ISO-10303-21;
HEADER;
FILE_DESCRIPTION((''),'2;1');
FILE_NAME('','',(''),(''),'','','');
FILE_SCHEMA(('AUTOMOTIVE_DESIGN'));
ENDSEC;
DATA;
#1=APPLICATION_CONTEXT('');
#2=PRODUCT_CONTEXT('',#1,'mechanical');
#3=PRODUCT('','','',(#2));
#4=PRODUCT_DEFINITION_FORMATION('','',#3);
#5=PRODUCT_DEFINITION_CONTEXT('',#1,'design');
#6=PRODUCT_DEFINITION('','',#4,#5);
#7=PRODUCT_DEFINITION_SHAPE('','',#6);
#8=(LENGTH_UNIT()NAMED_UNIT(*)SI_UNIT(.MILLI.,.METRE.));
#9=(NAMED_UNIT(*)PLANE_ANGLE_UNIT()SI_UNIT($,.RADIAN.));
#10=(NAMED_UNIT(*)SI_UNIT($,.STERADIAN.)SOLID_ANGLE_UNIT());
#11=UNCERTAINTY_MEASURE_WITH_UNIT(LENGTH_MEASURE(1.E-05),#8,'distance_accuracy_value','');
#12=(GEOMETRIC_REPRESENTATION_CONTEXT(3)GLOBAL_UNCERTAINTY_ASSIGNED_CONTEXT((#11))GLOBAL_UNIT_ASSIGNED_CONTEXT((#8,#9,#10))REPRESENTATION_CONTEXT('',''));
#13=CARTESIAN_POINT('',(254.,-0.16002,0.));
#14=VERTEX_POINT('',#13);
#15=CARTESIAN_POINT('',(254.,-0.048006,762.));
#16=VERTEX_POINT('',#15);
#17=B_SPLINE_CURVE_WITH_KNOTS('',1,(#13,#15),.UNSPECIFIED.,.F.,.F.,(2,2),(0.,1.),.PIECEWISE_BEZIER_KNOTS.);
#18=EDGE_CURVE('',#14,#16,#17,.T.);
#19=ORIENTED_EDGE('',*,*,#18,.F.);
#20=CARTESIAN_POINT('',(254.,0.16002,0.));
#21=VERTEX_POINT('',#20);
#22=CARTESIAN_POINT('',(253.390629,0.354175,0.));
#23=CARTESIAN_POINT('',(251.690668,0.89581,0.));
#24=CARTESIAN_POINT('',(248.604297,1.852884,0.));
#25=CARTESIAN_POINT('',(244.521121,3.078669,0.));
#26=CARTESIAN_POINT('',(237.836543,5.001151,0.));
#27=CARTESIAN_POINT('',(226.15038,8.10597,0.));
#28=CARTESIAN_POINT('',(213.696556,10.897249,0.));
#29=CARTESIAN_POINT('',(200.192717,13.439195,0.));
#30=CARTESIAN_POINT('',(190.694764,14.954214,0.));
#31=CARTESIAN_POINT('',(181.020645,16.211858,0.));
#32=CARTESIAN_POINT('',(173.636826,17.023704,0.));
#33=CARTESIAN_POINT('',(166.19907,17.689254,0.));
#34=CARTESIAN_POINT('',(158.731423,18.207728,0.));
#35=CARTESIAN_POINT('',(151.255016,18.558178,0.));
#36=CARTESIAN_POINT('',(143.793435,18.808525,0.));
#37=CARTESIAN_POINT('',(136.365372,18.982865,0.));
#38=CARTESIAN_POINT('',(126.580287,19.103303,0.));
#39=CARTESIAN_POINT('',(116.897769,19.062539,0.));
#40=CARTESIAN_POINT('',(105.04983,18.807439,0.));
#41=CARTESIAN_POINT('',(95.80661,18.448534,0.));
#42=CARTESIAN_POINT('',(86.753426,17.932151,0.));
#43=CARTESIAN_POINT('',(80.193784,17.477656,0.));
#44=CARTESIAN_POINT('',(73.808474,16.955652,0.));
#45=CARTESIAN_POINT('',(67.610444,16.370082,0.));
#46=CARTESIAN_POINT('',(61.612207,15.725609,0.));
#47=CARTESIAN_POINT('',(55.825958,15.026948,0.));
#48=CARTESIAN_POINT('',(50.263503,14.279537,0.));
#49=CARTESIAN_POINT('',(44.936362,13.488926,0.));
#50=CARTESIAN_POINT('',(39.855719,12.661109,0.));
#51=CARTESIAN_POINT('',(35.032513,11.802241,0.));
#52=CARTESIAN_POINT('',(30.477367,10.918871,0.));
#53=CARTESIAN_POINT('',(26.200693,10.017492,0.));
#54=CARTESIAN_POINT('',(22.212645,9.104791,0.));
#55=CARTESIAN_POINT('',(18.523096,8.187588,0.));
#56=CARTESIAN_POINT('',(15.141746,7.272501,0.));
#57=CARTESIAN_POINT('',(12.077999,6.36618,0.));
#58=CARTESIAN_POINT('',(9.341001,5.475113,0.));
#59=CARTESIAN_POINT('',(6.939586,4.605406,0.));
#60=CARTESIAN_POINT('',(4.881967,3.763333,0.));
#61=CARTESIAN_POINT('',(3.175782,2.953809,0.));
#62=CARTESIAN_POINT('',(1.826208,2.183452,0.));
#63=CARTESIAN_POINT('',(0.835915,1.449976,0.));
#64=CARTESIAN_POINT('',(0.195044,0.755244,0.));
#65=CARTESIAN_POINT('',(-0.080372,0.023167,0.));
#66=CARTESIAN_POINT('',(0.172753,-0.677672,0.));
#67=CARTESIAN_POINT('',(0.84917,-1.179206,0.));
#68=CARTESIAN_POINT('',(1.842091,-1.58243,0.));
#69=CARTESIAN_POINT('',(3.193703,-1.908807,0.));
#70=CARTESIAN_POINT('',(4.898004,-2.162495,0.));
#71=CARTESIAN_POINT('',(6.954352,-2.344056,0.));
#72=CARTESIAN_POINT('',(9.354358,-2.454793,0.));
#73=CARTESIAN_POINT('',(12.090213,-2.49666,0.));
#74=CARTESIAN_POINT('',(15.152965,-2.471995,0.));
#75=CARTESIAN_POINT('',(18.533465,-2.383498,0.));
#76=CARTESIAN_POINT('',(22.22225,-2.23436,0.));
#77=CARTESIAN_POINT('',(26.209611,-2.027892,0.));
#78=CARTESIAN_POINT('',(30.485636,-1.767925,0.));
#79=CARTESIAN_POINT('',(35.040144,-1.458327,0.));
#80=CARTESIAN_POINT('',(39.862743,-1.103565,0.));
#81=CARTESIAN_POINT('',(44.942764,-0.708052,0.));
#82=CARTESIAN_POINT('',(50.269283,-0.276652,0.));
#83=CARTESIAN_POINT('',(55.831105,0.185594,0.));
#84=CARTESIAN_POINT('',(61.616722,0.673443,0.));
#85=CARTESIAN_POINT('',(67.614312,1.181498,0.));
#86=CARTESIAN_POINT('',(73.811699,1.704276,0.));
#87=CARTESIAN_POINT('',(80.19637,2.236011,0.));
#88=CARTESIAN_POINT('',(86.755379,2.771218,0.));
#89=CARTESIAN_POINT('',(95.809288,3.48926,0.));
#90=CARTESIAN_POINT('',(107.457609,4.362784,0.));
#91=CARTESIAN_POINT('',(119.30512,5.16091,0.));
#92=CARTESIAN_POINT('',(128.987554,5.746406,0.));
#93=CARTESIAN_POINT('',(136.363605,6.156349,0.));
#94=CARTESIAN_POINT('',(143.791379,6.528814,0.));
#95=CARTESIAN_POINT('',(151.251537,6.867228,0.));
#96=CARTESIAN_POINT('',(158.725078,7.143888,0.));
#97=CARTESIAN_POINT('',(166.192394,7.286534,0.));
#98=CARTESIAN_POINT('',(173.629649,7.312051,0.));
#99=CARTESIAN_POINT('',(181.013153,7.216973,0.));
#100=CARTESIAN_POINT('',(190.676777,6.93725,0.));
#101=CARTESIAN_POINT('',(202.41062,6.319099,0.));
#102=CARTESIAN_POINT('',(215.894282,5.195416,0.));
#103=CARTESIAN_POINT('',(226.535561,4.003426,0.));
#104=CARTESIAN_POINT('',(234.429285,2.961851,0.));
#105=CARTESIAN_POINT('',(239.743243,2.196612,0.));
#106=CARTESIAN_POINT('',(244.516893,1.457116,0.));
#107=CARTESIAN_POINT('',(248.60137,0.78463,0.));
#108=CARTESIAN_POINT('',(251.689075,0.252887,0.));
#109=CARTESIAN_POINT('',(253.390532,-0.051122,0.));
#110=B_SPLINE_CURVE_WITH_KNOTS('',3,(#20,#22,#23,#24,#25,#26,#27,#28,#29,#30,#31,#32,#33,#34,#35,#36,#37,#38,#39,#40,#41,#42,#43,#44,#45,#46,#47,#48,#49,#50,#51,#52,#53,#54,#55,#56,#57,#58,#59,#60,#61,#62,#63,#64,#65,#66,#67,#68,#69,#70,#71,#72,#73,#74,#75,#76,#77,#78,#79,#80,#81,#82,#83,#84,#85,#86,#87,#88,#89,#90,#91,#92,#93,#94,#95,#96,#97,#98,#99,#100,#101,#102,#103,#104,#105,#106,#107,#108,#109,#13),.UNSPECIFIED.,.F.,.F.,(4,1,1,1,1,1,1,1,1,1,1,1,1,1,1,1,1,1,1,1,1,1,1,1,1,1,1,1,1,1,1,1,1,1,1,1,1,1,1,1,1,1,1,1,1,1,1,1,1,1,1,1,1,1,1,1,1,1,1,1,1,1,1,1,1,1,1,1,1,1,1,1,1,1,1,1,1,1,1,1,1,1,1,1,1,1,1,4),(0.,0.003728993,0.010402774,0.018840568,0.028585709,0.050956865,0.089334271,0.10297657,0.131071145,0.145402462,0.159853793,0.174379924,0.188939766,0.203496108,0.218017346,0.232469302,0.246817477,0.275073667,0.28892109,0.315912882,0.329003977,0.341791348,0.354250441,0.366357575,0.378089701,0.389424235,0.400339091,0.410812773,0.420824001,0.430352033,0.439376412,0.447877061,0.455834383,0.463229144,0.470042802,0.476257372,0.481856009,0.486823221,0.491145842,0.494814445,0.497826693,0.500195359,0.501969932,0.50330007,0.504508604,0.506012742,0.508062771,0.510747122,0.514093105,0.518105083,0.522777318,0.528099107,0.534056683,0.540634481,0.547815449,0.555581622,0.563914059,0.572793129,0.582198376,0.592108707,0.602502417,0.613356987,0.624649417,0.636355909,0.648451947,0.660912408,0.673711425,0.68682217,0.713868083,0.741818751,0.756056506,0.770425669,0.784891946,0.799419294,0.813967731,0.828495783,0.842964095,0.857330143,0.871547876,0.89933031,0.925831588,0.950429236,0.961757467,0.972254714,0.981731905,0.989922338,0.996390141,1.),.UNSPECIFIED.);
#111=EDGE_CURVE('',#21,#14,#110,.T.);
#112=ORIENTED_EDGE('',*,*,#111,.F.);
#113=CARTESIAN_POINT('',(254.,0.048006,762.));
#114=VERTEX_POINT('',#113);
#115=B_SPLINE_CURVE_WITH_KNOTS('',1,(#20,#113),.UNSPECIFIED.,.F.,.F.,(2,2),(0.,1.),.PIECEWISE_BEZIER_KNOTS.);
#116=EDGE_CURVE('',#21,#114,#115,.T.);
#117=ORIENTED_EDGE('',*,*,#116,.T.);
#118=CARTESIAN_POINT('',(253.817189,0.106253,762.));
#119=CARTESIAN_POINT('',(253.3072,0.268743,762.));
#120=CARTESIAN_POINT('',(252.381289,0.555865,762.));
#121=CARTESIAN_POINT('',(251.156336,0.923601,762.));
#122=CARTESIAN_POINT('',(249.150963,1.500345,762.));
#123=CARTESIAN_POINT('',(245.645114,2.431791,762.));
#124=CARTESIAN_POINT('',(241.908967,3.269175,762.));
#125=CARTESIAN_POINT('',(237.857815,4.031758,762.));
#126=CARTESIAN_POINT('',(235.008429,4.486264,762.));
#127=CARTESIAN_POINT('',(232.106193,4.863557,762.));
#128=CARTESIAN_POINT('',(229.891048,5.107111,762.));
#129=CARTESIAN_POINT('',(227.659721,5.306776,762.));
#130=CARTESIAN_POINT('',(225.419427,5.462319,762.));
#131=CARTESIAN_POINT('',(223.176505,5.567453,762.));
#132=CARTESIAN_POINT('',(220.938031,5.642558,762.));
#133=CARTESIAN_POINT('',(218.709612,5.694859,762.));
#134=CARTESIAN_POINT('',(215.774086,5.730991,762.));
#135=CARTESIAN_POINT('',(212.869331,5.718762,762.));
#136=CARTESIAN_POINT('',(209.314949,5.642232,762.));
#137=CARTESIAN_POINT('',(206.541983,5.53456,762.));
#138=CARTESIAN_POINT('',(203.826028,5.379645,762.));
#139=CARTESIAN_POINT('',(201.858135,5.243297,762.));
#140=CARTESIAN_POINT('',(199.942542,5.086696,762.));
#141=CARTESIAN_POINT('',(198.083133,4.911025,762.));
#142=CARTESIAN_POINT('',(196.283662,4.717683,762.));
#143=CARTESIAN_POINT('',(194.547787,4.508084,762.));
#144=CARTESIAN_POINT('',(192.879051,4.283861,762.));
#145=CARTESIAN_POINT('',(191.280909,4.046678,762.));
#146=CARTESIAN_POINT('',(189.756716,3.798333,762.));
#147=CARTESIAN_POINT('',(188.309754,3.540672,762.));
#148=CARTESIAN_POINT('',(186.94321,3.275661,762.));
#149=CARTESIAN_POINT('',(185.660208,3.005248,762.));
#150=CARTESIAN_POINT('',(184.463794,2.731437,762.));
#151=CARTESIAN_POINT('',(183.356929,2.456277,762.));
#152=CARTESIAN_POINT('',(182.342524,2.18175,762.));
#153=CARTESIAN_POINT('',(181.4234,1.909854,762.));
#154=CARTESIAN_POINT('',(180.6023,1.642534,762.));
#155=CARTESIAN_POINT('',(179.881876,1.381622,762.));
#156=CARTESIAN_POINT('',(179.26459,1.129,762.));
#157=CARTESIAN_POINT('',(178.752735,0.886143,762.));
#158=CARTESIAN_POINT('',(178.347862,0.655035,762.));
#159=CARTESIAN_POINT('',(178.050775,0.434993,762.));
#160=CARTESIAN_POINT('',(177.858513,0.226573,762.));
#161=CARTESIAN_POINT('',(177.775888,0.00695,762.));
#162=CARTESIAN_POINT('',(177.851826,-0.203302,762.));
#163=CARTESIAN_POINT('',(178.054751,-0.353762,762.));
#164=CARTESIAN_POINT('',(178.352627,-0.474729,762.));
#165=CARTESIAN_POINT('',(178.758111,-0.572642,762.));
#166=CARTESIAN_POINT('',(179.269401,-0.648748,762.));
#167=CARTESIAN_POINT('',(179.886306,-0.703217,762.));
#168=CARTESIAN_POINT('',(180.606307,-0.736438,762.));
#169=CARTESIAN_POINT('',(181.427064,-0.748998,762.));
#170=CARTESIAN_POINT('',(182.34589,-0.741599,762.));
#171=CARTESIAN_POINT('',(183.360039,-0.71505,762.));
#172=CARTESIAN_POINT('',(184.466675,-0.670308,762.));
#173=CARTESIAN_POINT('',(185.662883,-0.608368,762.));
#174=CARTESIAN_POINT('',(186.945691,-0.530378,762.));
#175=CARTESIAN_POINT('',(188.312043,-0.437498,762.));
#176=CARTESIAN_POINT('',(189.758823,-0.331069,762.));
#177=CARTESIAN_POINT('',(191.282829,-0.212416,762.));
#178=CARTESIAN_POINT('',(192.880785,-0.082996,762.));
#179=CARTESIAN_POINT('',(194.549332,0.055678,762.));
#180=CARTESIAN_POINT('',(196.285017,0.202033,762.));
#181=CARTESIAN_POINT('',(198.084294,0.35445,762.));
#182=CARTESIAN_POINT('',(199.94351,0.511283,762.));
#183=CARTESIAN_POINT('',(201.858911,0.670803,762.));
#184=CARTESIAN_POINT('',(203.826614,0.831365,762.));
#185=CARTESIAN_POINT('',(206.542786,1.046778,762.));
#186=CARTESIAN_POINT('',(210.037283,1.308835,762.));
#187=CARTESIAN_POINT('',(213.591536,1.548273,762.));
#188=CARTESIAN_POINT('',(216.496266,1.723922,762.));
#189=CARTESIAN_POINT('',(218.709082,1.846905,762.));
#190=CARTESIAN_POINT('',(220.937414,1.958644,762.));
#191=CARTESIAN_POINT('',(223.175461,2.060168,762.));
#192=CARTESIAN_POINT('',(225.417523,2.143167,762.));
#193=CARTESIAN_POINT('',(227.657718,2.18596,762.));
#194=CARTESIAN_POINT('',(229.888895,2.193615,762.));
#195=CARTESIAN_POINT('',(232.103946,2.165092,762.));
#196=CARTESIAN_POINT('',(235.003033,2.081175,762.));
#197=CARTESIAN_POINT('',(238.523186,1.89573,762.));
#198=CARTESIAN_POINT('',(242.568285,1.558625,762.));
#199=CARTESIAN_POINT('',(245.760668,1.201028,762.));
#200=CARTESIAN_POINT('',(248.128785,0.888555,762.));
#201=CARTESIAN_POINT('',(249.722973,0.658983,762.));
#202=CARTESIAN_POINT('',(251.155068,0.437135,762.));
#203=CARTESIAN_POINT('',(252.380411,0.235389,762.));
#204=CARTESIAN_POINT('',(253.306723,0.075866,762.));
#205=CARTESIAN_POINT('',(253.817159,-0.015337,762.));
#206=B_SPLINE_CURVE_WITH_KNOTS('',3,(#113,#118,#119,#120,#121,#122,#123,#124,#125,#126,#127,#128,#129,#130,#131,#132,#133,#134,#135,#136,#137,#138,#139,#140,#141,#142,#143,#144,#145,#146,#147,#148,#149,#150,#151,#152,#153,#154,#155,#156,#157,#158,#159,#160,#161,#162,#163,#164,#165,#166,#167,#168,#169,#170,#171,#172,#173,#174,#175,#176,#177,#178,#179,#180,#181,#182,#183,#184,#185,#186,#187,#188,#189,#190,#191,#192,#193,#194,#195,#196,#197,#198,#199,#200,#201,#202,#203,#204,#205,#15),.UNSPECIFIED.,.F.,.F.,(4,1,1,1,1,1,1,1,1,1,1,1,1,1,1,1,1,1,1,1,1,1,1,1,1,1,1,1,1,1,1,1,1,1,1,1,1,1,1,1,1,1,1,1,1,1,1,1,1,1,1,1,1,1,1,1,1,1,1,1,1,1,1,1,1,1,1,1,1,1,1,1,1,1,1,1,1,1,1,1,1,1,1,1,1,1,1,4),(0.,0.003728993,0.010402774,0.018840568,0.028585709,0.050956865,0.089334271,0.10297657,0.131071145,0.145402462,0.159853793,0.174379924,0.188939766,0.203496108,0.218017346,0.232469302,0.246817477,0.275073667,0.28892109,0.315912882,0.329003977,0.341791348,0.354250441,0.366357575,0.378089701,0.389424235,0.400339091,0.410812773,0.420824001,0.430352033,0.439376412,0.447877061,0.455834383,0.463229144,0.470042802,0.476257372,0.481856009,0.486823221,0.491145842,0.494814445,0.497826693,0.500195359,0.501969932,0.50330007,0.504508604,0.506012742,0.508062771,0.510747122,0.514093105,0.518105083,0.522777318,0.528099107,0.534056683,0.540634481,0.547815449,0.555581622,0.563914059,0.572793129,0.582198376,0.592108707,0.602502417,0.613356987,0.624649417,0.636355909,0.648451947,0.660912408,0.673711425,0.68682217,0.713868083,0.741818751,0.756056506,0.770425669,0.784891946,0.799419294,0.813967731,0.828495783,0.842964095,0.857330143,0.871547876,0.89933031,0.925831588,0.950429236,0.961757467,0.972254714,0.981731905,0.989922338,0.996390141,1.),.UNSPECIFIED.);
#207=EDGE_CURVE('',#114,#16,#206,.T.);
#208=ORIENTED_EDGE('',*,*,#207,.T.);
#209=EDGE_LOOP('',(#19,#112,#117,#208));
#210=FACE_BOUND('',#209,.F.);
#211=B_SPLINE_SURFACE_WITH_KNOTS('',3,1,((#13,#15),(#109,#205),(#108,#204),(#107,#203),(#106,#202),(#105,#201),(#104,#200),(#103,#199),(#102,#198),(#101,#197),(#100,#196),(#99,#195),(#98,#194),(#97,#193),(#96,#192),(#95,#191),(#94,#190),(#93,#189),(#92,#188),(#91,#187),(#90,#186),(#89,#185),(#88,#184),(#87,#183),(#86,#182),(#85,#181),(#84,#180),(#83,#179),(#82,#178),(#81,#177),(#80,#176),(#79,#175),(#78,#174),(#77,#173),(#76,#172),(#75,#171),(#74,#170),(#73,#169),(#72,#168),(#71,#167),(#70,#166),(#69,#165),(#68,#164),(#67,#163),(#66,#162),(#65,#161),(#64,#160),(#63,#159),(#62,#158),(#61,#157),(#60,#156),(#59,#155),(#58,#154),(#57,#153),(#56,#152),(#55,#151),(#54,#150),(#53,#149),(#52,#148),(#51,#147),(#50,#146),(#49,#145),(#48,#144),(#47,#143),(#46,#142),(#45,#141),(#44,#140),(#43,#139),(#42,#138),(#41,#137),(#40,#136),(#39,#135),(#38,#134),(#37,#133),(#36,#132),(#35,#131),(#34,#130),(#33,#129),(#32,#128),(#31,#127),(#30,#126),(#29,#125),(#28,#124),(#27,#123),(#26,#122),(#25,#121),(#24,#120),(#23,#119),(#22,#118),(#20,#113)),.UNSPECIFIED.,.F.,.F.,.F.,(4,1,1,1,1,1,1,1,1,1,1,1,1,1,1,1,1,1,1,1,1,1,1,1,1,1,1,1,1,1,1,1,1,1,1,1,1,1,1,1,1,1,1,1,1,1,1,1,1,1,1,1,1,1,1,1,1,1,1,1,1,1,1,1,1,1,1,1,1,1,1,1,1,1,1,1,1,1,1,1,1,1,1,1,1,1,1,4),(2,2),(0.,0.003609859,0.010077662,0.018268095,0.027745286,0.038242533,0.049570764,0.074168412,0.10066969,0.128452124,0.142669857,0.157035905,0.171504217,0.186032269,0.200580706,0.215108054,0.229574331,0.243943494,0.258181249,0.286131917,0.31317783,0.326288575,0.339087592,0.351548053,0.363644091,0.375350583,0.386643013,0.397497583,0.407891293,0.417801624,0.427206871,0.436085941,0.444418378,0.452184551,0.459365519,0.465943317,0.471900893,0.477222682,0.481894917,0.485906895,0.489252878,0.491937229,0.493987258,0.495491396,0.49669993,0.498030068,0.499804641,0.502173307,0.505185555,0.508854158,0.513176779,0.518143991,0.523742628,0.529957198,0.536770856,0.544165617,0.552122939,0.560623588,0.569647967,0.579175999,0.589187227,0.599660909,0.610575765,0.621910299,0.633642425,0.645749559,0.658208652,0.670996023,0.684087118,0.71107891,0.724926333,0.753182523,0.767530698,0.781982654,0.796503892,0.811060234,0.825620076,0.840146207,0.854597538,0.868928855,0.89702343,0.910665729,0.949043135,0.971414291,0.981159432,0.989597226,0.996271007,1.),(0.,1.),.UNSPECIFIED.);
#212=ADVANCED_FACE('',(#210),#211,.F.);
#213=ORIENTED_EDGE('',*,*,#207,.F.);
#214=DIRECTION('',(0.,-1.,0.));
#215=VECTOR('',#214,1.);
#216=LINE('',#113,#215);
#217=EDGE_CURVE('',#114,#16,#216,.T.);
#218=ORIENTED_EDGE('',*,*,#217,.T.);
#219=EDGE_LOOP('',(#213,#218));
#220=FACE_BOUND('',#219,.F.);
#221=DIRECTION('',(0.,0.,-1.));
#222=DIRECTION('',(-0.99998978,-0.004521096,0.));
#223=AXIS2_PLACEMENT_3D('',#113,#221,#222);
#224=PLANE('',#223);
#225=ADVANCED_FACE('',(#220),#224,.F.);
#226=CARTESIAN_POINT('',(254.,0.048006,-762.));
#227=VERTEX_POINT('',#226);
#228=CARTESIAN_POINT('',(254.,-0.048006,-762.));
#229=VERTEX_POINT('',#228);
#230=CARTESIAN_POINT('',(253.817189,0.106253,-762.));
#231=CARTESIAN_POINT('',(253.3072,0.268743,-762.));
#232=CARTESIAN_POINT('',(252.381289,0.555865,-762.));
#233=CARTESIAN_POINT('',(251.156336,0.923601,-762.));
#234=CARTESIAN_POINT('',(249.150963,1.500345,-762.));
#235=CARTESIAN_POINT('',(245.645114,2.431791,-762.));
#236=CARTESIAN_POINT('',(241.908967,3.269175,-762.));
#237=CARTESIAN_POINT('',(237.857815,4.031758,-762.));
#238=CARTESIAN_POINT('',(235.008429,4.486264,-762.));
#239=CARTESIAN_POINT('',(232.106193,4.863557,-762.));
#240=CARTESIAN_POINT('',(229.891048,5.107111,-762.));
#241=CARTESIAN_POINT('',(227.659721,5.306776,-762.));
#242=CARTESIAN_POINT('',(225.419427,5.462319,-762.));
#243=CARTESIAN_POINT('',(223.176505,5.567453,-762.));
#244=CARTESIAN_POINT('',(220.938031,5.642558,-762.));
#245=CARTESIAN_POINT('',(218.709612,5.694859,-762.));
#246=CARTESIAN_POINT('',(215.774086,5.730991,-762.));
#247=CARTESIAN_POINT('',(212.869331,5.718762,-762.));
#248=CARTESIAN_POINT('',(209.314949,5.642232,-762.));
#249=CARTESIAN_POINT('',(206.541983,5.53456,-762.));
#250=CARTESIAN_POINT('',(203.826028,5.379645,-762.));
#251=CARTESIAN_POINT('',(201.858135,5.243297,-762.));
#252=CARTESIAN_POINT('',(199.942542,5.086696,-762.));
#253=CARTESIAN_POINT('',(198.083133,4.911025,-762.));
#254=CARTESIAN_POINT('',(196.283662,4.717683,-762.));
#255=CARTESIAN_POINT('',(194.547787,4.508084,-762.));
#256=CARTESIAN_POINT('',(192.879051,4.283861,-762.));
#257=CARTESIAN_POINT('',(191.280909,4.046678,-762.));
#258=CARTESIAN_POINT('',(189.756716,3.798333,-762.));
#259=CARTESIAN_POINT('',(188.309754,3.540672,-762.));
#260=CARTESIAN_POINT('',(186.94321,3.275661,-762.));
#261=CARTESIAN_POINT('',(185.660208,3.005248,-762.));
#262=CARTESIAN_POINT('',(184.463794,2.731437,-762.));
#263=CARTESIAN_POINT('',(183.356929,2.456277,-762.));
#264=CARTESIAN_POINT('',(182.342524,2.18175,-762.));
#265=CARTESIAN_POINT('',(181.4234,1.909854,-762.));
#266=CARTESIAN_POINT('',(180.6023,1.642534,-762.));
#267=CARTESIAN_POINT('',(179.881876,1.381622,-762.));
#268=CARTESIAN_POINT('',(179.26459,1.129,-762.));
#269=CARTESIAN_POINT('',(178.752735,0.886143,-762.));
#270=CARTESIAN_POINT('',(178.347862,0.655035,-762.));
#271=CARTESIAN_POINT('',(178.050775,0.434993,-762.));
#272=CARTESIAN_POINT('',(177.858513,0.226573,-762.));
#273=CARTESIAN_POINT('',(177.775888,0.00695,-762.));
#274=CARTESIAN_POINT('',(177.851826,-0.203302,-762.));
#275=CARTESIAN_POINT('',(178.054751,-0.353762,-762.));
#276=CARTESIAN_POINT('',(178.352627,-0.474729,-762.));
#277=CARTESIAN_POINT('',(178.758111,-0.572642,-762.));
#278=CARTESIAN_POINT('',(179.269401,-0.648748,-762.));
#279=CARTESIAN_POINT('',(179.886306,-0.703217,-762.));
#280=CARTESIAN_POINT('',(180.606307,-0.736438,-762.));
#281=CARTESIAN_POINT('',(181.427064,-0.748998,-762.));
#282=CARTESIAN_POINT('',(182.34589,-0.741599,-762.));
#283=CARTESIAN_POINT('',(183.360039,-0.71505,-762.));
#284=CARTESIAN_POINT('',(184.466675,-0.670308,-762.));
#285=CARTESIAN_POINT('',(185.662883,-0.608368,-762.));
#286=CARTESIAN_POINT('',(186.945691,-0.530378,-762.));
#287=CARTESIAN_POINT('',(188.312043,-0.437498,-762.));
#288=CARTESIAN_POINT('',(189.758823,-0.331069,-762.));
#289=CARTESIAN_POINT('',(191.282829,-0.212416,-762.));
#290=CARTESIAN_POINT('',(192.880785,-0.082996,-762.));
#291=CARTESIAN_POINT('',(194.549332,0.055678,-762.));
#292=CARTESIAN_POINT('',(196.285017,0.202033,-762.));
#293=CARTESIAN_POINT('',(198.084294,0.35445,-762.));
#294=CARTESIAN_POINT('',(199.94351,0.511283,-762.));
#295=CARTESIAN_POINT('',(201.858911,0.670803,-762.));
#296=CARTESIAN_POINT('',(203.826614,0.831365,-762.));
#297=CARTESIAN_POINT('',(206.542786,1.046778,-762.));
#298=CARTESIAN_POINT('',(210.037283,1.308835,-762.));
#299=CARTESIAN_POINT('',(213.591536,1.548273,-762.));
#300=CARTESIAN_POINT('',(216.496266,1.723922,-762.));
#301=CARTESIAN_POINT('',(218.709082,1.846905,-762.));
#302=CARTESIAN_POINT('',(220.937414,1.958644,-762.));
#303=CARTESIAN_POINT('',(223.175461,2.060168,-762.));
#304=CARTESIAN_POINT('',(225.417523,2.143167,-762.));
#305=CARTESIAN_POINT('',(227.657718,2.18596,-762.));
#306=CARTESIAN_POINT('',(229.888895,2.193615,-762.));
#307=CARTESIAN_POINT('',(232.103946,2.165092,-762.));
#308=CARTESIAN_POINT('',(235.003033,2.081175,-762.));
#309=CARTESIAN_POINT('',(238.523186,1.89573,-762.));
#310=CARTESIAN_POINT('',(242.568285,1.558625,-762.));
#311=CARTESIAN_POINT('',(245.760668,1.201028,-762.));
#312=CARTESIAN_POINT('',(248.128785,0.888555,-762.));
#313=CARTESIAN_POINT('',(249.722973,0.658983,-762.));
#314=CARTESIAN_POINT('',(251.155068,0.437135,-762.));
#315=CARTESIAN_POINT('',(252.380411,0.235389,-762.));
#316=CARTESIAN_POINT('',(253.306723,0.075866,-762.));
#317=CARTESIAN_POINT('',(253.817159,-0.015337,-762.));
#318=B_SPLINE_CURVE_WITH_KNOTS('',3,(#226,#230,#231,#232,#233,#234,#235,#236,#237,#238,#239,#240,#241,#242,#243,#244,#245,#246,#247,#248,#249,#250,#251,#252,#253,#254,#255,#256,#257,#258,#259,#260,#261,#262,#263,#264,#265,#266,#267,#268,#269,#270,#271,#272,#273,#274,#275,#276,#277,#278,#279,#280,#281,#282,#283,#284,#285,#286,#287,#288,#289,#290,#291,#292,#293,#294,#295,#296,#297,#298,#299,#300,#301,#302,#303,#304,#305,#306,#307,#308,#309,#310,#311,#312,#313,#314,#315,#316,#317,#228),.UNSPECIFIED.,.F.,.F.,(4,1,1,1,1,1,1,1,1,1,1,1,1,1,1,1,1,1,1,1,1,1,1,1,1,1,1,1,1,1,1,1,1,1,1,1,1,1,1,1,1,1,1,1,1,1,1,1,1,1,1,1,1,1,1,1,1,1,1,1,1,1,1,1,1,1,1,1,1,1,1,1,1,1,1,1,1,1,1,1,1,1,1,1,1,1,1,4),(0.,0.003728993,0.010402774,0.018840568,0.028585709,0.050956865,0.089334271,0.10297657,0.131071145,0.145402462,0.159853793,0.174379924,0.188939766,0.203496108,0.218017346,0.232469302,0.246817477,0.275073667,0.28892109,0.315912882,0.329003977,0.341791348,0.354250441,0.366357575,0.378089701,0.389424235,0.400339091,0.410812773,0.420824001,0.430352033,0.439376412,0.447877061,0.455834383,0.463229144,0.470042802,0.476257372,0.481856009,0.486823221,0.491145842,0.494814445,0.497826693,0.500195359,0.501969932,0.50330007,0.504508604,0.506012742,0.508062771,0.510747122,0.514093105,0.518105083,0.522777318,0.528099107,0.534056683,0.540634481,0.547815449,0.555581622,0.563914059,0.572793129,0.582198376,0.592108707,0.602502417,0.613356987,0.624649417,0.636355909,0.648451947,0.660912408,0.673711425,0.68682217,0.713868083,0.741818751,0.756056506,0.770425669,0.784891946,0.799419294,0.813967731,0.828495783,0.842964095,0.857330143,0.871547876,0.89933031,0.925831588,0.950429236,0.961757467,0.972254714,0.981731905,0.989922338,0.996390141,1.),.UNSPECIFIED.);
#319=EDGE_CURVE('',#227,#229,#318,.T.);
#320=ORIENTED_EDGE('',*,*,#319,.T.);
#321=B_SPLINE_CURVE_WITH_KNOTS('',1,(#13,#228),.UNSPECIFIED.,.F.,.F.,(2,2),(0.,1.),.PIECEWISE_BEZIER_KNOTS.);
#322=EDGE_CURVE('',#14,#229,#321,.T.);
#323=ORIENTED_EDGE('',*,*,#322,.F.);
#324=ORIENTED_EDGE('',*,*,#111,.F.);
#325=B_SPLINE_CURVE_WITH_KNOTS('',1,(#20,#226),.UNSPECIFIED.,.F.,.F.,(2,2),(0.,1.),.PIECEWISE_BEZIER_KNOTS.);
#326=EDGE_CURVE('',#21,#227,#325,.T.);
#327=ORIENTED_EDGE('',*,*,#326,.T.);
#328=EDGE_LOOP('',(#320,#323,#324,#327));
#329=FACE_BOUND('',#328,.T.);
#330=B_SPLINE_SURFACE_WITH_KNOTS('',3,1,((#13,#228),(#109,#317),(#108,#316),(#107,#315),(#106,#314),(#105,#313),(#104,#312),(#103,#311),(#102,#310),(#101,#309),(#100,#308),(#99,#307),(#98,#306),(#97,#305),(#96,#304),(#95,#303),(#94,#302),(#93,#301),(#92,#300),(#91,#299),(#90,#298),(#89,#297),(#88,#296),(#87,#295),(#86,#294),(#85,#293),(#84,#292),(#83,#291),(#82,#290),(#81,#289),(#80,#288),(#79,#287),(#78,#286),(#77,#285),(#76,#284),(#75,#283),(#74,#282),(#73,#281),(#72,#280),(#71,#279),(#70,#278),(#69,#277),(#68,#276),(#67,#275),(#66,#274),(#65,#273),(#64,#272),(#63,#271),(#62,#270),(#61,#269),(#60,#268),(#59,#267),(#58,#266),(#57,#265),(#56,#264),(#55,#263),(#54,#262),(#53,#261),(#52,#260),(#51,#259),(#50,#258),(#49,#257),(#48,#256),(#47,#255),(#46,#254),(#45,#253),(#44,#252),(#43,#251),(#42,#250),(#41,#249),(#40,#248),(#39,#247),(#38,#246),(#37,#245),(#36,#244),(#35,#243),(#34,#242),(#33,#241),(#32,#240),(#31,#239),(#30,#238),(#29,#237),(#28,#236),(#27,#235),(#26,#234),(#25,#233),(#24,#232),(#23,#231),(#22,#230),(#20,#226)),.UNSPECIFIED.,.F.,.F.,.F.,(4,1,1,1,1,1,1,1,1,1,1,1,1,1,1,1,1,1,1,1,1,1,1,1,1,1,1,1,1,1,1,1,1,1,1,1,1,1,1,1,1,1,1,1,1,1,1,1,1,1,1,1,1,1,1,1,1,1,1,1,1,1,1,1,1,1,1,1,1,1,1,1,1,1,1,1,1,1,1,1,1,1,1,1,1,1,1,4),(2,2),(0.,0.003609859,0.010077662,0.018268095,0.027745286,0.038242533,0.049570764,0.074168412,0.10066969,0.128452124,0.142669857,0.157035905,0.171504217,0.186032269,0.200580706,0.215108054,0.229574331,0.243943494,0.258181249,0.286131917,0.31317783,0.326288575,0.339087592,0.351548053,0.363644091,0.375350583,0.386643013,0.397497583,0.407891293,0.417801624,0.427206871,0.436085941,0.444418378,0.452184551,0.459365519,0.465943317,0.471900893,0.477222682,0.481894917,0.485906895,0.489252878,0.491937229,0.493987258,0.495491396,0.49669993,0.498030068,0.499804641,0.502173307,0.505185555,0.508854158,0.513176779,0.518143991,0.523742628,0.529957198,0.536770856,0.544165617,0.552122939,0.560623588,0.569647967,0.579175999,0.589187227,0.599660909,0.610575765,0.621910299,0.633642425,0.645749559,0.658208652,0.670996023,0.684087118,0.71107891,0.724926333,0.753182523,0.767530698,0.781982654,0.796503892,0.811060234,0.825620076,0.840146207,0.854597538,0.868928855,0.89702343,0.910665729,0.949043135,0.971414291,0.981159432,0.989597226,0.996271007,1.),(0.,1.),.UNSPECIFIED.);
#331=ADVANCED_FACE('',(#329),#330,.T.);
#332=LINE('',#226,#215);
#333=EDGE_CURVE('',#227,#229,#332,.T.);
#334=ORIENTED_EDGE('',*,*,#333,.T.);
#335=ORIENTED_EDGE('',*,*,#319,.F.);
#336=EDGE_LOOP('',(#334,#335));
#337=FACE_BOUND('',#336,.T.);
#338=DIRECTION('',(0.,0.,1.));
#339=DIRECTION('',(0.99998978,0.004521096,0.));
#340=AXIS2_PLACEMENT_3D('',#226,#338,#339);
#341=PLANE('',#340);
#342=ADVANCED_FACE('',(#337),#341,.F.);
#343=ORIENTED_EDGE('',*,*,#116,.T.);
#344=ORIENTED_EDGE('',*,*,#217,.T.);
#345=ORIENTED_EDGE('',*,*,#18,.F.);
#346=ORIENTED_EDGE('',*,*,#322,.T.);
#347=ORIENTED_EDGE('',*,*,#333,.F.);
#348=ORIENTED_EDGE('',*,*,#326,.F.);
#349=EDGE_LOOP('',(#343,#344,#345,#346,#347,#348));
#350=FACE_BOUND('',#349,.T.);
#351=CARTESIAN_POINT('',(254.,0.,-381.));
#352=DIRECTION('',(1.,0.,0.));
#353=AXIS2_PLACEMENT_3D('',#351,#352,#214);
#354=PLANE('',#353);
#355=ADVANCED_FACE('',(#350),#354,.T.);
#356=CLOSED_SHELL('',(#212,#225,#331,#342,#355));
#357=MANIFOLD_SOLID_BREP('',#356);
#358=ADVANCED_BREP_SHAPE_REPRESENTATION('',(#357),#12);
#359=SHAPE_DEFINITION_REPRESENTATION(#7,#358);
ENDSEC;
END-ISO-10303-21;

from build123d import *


with BuildPart() as part:
    # Sketch4 → Loft2 section 0
    with BuildSketch(Plane.XY):
        with BuildLine():
            Line((254, 0.16002), (254, -0.16002))
            add(Edge.make_bspline(
                [(254, 0.16002), (253.390629454, 0.354175237), (251.690668177, 0.895810186), (248.604296931, 1.85288401), (244.52112065, 3.078669041), (237.836543091, 5.001150781), (226.150380006, 8.105969834), (213.696555504, 10.897249381), (200.19271656, 13.439194797), (190.694763803, 14.954214101), (181.020644525, 16.211857643), (173.636826015, 17.023703791), (166.199070493, 17.689254207), (158.731422647, 18.207728416), (151.255016436, 18.558178008), (143.793435306, 18.808525374), (136.365371988, 18.982864571), (126.580287151, 19.10330287), (116.897768939, 19.062538903), (105.049830105, 18.80743863), (95.806609799, 18.448533981), (86.75342576, 17.932151324), (80.193784455, 17.477656056), (73.8084741, 16.955652117), (67.610444284, 16.370082301), (61.612207157, 15.725608708), (55.825958129, 15.026947866), (50.26350266, 14.279537471), (44.936361976, 13.488925842), (39.85571923, 12.661108902), (35.03251259, 11.802241155), (30.477367111, 10.918871422), (26.200693126, 10.017491703), (22.21264515, 9.104790925), (18.523095578, 8.187588491), (15.141745593, 7.272501124), (12.07799891, 6.366180193), (9.341001209, 5.475112821), (6.93958574, 4.605405592), (4.881967231, 3.763333086), (3.175781694, 2.953809462), (1.826208271, 2.183451538), (0.83591509, 1.449975898), (0.195044297, 0.755243682), (-0.080371712, 0.023167401), (0.172753263, -0.677671692), (0.849170255, -1.179205828), (1.842090873, -1.582429994), (3.193702875, -1.908807147), (4.898004058, -2.162494559), (6.954352036, -2.34405578), (9.354357986, -2.45479332), (12.090213212, -2.496659599), (15.152965113, -2.47199544), (18.533464993, -2.383498376), (22.222249739, -2.234359789), (26.209611272, -2.027891847), (30.485635842, -1.767925293), (35.040144284, -1.458327467), (39.862742707, -1.103564992), (44.942764219, -0.708051848), (50.269283211, -0.276652482), (55.831105217, 0.18559398), (61.616722221, 0.673443271), (67.614311842, 1.181498394), (73.811698837, 1.704276447), (80.19637044, 2.236010885), (86.755378935, 2.771217854), (95.809287784, 3.489259789), (107.457608855, 4.362783785), (119.305120019, 5.160909961), (128.987553621, 5.746406357), (136.363605474, 6.156349197), (143.791379186, 6.528814259), (151.251536552, 6.867228061), (158.725078073, 7.143888445), (166.192393719, 7.286534308), (173.629649411, 7.312051473), (181.013152794, 7.216973143), (190.676776551, 6.937250087), (202.410619783, 6.31909946), (215.89428223, 5.195415931), (226.535561083, 4.003426038), (234.429284596, 2.961850752), (239.743242642, 2.196611542), (244.516892529, 1.457116015), (248.601370153, 0.784629743), (251.689075327, 0.252887242), (253.390531541, -0.051122491), (254, -0.16002)],
                knots=[0, 0, 0, 0, 0.003728993, 0.010402774, 0.018840568, 0.028585709, 0.050956865, 0.089334271, 0.10297657, 0.131071145, 0.145402462, 0.159853793, 0.174379924, 0.188939766, 0.203496108, 0.218017346, 0.232469302, 0.246817477, 0.275073667, 0.28892109, 0.315912882, 0.329003977, 0.341791348, 0.354250441, 0.366357575, 0.378089701, 0.389424235, 0.400339091, 0.410812773, 0.420824001, 0.430352033, 0.439376412, 0.447877061, 0.455834383, 0.463229144, 0.470042802, 0.476257372, 0.481856009, 0.486823221, 0.491145842, 0.494814445, 0.497826693, 0.500195359, 0.501969932, 0.50330007, 0.504508604, 0.506012742, 0.508062771, 0.510747122, 0.514093105, 0.518105083, 0.522777318, 0.528099107, 0.534056683, 0.540634481, 0.547815449, 0.555581622, 0.563914059, 0.572793129, 0.582198376, 0.592108707, 0.602502417, 0.613356987, 0.624649417, 0.636355909, 0.648451947, 0.660912408, 0.673711425, 0.68682217, 0.713868083, 0.741818751, 0.756056506, 0.770425669, 0.784891946, 0.799419294, 0.813967731, 0.828495783, 0.842964095, 0.857330143, 0.871547876, 0.89933031, 0.925831588, 0.950429236, 0.961757467, 0.972254714, 0.981731905, 0.989922338, 0.996390141, 1, 1, 1, 1], degree=3))
        make_face()
    # Sketch5 → Loft2 section 1
    with BuildSketch(Plane.XY.offset(762)):
        with BuildLine():
            Line((254, 0.048006), (254, -0.048006))
            add(Edge.make_bspline(
                [(254, 0.048006), (253.817188836, 0.106252571), (253.307200453, 0.268743056), (252.381289079, 0.555865203), (251.156336195, 0.923600712), (249.150962927, 1.500345234), (245.645114002, 2.43179095), (241.908966651, 3.269174814), (237.857814968, 4.031758439), (235.008429141, 4.48626423), (232.106193357, 4.863557293), (229.891047804, 5.107111137), (227.659721148, 5.306776262), (225.419426794, 5.462318525), (223.176504931, 5.567453402), (220.938030592, 5.642557612), (218.709611597, 5.694859371), (215.774086145, 5.730990861), (212.869330682, 5.718761671), (209.314949031, 5.642231589), (206.54198294, 5.534560194), (203.826027728, 5.379645397), (201.858135337, 5.243296817), (199.94254223, 5.086695635), (198.083133285, 4.91102469), (196.283662147, 4.717682612), (194.547787439, 4.50808436), (192.879050798, 4.283861241), (191.280908593, 4.046677753), (189.756715769, 3.798332671), (188.309753777, 3.540672346), (186.943210133, 3.275661427), (185.660207938, 3.005247511), (184.463793545, 2.731437277), (183.356928673, 2.456276547), (182.342523678, 2.181750337), (181.423399673, 1.909854058), (180.602300363, 1.642533846), (179.881875722, 1.381621678), (179.264590169, 1.128999926), (178.752734508, 0.886142839), (178.347862481, 0.655035461), (178.050774527, 0.434992769), (177.858513289, 0.226573105), (177.775888486, 0.00695022), (177.851825979, -0.203301508), (178.054751076, -0.353761748), (178.352627262, -0.474728998), (178.758110863, -0.572642144), (179.269401217, -0.648748368), (179.886305611, -0.703216734), (180.606307396, -0.736437996), (181.427063964, -0.74899788), (182.345889534, -0.741598632), (183.360039498, -0.715049513), (184.466674922, -0.670307937), (185.662883381, -0.608367554), (186.945690753, -0.530377588), (188.312043285, -0.43749824), (189.758822812, -0.331069498), (191.282829266, -0.212415554), (192.880784963, -0.082995745), (194.549331565, 0.055678194), (196.285016666, 0.202032981), (198.084293553, 0.354449518), (199.943509651, 0.511282934), (201.858911132, 0.670803266), (203.826613681, 0.831365356), (206.542786335, 1.046777937), (210.037282656, 1.308835135), (213.591536006, 1.548272988), (216.496266086, 1.723921907), (218.709081642, 1.846904759), (220.937413756, 1.958644278), (223.175460965, 2.060168418), (225.417523422, 2.143166533), (227.657718116, 2.185960293), (229.888894823, 2.193615442), (232.103945838, 2.165091943), (235.003032965, 2.081175026), (238.523185935, 1.895729838), (242.568284669, 1.558624779), (245.760668325, 1.201027811), (248.128785379, 0.888555226), (249.722972793, 0.658983463), (251.155067759, 0.437134805), (252.380411046, 0.235388923), (253.306722598, 0.075866173), (253.817159462, -0.015336747), (254, -0.048006)],
                knots=[0, 0, 0, 0, 0.003728993, 0.010402774, 0.018840568, 0.028585709, 0.050956865, 0.089334271, 0.10297657, 0.131071145, 0.145402462, 0.159853793, 0.174379924, 0.188939766, 0.203496108, 0.218017346, 0.232469302, 0.246817477, 0.275073667, 0.28892109, 0.315912882, 0.329003977, 0.341791348, 0.354250441, 0.366357575, 0.378089701, 0.389424235, 0.400339091, 0.410812773, 0.420824001, 0.430352033, 0.439376412, 0.447877061, 0.455834383, 0.463229144, 0.470042802, 0.476257372, 0.481856009, 0.486823221, 0.491145842, 0.494814445, 0.497826693, 0.500195359, 0.501969932, 0.50330007, 0.504508604, 0.506012742, 0.508062771, 0.510747122, 0.514093105, 0.518105083, 0.522777318, 0.528099107, 0.534056683, 0.540634481, 0.547815449, 0.555581622, 0.563914059, 0.572793129, 0.582198376, 0.592108707, 0.602502417, 0.613356987, 0.624649417, 0.636355909, 0.648451947, 0.660912408, 0.673711425, 0.68682217, 0.713868083, 0.741818751, 0.756056506, 0.770425669, 0.784891946, 0.799419294, 0.813967731, 0.828495783, 0.842964095, 0.857330143, 0.871547876, 0.89933031, 0.925831588, 0.950429236, 0.961757467, 0.972254714, 0.981731905, 0.989922338, 0.996390141, 1, 1, 1, 1], degree=3))
        make_face()
    loft2 = loft()

    # Mirror1: Loft2 across plane
    add(loft2.mirror(Plane(origin=(0.857099192, 1.42359733, 0), x_dir=(1, 0, 0), z_dir=(0, 0, -1))))


solid = part.part
